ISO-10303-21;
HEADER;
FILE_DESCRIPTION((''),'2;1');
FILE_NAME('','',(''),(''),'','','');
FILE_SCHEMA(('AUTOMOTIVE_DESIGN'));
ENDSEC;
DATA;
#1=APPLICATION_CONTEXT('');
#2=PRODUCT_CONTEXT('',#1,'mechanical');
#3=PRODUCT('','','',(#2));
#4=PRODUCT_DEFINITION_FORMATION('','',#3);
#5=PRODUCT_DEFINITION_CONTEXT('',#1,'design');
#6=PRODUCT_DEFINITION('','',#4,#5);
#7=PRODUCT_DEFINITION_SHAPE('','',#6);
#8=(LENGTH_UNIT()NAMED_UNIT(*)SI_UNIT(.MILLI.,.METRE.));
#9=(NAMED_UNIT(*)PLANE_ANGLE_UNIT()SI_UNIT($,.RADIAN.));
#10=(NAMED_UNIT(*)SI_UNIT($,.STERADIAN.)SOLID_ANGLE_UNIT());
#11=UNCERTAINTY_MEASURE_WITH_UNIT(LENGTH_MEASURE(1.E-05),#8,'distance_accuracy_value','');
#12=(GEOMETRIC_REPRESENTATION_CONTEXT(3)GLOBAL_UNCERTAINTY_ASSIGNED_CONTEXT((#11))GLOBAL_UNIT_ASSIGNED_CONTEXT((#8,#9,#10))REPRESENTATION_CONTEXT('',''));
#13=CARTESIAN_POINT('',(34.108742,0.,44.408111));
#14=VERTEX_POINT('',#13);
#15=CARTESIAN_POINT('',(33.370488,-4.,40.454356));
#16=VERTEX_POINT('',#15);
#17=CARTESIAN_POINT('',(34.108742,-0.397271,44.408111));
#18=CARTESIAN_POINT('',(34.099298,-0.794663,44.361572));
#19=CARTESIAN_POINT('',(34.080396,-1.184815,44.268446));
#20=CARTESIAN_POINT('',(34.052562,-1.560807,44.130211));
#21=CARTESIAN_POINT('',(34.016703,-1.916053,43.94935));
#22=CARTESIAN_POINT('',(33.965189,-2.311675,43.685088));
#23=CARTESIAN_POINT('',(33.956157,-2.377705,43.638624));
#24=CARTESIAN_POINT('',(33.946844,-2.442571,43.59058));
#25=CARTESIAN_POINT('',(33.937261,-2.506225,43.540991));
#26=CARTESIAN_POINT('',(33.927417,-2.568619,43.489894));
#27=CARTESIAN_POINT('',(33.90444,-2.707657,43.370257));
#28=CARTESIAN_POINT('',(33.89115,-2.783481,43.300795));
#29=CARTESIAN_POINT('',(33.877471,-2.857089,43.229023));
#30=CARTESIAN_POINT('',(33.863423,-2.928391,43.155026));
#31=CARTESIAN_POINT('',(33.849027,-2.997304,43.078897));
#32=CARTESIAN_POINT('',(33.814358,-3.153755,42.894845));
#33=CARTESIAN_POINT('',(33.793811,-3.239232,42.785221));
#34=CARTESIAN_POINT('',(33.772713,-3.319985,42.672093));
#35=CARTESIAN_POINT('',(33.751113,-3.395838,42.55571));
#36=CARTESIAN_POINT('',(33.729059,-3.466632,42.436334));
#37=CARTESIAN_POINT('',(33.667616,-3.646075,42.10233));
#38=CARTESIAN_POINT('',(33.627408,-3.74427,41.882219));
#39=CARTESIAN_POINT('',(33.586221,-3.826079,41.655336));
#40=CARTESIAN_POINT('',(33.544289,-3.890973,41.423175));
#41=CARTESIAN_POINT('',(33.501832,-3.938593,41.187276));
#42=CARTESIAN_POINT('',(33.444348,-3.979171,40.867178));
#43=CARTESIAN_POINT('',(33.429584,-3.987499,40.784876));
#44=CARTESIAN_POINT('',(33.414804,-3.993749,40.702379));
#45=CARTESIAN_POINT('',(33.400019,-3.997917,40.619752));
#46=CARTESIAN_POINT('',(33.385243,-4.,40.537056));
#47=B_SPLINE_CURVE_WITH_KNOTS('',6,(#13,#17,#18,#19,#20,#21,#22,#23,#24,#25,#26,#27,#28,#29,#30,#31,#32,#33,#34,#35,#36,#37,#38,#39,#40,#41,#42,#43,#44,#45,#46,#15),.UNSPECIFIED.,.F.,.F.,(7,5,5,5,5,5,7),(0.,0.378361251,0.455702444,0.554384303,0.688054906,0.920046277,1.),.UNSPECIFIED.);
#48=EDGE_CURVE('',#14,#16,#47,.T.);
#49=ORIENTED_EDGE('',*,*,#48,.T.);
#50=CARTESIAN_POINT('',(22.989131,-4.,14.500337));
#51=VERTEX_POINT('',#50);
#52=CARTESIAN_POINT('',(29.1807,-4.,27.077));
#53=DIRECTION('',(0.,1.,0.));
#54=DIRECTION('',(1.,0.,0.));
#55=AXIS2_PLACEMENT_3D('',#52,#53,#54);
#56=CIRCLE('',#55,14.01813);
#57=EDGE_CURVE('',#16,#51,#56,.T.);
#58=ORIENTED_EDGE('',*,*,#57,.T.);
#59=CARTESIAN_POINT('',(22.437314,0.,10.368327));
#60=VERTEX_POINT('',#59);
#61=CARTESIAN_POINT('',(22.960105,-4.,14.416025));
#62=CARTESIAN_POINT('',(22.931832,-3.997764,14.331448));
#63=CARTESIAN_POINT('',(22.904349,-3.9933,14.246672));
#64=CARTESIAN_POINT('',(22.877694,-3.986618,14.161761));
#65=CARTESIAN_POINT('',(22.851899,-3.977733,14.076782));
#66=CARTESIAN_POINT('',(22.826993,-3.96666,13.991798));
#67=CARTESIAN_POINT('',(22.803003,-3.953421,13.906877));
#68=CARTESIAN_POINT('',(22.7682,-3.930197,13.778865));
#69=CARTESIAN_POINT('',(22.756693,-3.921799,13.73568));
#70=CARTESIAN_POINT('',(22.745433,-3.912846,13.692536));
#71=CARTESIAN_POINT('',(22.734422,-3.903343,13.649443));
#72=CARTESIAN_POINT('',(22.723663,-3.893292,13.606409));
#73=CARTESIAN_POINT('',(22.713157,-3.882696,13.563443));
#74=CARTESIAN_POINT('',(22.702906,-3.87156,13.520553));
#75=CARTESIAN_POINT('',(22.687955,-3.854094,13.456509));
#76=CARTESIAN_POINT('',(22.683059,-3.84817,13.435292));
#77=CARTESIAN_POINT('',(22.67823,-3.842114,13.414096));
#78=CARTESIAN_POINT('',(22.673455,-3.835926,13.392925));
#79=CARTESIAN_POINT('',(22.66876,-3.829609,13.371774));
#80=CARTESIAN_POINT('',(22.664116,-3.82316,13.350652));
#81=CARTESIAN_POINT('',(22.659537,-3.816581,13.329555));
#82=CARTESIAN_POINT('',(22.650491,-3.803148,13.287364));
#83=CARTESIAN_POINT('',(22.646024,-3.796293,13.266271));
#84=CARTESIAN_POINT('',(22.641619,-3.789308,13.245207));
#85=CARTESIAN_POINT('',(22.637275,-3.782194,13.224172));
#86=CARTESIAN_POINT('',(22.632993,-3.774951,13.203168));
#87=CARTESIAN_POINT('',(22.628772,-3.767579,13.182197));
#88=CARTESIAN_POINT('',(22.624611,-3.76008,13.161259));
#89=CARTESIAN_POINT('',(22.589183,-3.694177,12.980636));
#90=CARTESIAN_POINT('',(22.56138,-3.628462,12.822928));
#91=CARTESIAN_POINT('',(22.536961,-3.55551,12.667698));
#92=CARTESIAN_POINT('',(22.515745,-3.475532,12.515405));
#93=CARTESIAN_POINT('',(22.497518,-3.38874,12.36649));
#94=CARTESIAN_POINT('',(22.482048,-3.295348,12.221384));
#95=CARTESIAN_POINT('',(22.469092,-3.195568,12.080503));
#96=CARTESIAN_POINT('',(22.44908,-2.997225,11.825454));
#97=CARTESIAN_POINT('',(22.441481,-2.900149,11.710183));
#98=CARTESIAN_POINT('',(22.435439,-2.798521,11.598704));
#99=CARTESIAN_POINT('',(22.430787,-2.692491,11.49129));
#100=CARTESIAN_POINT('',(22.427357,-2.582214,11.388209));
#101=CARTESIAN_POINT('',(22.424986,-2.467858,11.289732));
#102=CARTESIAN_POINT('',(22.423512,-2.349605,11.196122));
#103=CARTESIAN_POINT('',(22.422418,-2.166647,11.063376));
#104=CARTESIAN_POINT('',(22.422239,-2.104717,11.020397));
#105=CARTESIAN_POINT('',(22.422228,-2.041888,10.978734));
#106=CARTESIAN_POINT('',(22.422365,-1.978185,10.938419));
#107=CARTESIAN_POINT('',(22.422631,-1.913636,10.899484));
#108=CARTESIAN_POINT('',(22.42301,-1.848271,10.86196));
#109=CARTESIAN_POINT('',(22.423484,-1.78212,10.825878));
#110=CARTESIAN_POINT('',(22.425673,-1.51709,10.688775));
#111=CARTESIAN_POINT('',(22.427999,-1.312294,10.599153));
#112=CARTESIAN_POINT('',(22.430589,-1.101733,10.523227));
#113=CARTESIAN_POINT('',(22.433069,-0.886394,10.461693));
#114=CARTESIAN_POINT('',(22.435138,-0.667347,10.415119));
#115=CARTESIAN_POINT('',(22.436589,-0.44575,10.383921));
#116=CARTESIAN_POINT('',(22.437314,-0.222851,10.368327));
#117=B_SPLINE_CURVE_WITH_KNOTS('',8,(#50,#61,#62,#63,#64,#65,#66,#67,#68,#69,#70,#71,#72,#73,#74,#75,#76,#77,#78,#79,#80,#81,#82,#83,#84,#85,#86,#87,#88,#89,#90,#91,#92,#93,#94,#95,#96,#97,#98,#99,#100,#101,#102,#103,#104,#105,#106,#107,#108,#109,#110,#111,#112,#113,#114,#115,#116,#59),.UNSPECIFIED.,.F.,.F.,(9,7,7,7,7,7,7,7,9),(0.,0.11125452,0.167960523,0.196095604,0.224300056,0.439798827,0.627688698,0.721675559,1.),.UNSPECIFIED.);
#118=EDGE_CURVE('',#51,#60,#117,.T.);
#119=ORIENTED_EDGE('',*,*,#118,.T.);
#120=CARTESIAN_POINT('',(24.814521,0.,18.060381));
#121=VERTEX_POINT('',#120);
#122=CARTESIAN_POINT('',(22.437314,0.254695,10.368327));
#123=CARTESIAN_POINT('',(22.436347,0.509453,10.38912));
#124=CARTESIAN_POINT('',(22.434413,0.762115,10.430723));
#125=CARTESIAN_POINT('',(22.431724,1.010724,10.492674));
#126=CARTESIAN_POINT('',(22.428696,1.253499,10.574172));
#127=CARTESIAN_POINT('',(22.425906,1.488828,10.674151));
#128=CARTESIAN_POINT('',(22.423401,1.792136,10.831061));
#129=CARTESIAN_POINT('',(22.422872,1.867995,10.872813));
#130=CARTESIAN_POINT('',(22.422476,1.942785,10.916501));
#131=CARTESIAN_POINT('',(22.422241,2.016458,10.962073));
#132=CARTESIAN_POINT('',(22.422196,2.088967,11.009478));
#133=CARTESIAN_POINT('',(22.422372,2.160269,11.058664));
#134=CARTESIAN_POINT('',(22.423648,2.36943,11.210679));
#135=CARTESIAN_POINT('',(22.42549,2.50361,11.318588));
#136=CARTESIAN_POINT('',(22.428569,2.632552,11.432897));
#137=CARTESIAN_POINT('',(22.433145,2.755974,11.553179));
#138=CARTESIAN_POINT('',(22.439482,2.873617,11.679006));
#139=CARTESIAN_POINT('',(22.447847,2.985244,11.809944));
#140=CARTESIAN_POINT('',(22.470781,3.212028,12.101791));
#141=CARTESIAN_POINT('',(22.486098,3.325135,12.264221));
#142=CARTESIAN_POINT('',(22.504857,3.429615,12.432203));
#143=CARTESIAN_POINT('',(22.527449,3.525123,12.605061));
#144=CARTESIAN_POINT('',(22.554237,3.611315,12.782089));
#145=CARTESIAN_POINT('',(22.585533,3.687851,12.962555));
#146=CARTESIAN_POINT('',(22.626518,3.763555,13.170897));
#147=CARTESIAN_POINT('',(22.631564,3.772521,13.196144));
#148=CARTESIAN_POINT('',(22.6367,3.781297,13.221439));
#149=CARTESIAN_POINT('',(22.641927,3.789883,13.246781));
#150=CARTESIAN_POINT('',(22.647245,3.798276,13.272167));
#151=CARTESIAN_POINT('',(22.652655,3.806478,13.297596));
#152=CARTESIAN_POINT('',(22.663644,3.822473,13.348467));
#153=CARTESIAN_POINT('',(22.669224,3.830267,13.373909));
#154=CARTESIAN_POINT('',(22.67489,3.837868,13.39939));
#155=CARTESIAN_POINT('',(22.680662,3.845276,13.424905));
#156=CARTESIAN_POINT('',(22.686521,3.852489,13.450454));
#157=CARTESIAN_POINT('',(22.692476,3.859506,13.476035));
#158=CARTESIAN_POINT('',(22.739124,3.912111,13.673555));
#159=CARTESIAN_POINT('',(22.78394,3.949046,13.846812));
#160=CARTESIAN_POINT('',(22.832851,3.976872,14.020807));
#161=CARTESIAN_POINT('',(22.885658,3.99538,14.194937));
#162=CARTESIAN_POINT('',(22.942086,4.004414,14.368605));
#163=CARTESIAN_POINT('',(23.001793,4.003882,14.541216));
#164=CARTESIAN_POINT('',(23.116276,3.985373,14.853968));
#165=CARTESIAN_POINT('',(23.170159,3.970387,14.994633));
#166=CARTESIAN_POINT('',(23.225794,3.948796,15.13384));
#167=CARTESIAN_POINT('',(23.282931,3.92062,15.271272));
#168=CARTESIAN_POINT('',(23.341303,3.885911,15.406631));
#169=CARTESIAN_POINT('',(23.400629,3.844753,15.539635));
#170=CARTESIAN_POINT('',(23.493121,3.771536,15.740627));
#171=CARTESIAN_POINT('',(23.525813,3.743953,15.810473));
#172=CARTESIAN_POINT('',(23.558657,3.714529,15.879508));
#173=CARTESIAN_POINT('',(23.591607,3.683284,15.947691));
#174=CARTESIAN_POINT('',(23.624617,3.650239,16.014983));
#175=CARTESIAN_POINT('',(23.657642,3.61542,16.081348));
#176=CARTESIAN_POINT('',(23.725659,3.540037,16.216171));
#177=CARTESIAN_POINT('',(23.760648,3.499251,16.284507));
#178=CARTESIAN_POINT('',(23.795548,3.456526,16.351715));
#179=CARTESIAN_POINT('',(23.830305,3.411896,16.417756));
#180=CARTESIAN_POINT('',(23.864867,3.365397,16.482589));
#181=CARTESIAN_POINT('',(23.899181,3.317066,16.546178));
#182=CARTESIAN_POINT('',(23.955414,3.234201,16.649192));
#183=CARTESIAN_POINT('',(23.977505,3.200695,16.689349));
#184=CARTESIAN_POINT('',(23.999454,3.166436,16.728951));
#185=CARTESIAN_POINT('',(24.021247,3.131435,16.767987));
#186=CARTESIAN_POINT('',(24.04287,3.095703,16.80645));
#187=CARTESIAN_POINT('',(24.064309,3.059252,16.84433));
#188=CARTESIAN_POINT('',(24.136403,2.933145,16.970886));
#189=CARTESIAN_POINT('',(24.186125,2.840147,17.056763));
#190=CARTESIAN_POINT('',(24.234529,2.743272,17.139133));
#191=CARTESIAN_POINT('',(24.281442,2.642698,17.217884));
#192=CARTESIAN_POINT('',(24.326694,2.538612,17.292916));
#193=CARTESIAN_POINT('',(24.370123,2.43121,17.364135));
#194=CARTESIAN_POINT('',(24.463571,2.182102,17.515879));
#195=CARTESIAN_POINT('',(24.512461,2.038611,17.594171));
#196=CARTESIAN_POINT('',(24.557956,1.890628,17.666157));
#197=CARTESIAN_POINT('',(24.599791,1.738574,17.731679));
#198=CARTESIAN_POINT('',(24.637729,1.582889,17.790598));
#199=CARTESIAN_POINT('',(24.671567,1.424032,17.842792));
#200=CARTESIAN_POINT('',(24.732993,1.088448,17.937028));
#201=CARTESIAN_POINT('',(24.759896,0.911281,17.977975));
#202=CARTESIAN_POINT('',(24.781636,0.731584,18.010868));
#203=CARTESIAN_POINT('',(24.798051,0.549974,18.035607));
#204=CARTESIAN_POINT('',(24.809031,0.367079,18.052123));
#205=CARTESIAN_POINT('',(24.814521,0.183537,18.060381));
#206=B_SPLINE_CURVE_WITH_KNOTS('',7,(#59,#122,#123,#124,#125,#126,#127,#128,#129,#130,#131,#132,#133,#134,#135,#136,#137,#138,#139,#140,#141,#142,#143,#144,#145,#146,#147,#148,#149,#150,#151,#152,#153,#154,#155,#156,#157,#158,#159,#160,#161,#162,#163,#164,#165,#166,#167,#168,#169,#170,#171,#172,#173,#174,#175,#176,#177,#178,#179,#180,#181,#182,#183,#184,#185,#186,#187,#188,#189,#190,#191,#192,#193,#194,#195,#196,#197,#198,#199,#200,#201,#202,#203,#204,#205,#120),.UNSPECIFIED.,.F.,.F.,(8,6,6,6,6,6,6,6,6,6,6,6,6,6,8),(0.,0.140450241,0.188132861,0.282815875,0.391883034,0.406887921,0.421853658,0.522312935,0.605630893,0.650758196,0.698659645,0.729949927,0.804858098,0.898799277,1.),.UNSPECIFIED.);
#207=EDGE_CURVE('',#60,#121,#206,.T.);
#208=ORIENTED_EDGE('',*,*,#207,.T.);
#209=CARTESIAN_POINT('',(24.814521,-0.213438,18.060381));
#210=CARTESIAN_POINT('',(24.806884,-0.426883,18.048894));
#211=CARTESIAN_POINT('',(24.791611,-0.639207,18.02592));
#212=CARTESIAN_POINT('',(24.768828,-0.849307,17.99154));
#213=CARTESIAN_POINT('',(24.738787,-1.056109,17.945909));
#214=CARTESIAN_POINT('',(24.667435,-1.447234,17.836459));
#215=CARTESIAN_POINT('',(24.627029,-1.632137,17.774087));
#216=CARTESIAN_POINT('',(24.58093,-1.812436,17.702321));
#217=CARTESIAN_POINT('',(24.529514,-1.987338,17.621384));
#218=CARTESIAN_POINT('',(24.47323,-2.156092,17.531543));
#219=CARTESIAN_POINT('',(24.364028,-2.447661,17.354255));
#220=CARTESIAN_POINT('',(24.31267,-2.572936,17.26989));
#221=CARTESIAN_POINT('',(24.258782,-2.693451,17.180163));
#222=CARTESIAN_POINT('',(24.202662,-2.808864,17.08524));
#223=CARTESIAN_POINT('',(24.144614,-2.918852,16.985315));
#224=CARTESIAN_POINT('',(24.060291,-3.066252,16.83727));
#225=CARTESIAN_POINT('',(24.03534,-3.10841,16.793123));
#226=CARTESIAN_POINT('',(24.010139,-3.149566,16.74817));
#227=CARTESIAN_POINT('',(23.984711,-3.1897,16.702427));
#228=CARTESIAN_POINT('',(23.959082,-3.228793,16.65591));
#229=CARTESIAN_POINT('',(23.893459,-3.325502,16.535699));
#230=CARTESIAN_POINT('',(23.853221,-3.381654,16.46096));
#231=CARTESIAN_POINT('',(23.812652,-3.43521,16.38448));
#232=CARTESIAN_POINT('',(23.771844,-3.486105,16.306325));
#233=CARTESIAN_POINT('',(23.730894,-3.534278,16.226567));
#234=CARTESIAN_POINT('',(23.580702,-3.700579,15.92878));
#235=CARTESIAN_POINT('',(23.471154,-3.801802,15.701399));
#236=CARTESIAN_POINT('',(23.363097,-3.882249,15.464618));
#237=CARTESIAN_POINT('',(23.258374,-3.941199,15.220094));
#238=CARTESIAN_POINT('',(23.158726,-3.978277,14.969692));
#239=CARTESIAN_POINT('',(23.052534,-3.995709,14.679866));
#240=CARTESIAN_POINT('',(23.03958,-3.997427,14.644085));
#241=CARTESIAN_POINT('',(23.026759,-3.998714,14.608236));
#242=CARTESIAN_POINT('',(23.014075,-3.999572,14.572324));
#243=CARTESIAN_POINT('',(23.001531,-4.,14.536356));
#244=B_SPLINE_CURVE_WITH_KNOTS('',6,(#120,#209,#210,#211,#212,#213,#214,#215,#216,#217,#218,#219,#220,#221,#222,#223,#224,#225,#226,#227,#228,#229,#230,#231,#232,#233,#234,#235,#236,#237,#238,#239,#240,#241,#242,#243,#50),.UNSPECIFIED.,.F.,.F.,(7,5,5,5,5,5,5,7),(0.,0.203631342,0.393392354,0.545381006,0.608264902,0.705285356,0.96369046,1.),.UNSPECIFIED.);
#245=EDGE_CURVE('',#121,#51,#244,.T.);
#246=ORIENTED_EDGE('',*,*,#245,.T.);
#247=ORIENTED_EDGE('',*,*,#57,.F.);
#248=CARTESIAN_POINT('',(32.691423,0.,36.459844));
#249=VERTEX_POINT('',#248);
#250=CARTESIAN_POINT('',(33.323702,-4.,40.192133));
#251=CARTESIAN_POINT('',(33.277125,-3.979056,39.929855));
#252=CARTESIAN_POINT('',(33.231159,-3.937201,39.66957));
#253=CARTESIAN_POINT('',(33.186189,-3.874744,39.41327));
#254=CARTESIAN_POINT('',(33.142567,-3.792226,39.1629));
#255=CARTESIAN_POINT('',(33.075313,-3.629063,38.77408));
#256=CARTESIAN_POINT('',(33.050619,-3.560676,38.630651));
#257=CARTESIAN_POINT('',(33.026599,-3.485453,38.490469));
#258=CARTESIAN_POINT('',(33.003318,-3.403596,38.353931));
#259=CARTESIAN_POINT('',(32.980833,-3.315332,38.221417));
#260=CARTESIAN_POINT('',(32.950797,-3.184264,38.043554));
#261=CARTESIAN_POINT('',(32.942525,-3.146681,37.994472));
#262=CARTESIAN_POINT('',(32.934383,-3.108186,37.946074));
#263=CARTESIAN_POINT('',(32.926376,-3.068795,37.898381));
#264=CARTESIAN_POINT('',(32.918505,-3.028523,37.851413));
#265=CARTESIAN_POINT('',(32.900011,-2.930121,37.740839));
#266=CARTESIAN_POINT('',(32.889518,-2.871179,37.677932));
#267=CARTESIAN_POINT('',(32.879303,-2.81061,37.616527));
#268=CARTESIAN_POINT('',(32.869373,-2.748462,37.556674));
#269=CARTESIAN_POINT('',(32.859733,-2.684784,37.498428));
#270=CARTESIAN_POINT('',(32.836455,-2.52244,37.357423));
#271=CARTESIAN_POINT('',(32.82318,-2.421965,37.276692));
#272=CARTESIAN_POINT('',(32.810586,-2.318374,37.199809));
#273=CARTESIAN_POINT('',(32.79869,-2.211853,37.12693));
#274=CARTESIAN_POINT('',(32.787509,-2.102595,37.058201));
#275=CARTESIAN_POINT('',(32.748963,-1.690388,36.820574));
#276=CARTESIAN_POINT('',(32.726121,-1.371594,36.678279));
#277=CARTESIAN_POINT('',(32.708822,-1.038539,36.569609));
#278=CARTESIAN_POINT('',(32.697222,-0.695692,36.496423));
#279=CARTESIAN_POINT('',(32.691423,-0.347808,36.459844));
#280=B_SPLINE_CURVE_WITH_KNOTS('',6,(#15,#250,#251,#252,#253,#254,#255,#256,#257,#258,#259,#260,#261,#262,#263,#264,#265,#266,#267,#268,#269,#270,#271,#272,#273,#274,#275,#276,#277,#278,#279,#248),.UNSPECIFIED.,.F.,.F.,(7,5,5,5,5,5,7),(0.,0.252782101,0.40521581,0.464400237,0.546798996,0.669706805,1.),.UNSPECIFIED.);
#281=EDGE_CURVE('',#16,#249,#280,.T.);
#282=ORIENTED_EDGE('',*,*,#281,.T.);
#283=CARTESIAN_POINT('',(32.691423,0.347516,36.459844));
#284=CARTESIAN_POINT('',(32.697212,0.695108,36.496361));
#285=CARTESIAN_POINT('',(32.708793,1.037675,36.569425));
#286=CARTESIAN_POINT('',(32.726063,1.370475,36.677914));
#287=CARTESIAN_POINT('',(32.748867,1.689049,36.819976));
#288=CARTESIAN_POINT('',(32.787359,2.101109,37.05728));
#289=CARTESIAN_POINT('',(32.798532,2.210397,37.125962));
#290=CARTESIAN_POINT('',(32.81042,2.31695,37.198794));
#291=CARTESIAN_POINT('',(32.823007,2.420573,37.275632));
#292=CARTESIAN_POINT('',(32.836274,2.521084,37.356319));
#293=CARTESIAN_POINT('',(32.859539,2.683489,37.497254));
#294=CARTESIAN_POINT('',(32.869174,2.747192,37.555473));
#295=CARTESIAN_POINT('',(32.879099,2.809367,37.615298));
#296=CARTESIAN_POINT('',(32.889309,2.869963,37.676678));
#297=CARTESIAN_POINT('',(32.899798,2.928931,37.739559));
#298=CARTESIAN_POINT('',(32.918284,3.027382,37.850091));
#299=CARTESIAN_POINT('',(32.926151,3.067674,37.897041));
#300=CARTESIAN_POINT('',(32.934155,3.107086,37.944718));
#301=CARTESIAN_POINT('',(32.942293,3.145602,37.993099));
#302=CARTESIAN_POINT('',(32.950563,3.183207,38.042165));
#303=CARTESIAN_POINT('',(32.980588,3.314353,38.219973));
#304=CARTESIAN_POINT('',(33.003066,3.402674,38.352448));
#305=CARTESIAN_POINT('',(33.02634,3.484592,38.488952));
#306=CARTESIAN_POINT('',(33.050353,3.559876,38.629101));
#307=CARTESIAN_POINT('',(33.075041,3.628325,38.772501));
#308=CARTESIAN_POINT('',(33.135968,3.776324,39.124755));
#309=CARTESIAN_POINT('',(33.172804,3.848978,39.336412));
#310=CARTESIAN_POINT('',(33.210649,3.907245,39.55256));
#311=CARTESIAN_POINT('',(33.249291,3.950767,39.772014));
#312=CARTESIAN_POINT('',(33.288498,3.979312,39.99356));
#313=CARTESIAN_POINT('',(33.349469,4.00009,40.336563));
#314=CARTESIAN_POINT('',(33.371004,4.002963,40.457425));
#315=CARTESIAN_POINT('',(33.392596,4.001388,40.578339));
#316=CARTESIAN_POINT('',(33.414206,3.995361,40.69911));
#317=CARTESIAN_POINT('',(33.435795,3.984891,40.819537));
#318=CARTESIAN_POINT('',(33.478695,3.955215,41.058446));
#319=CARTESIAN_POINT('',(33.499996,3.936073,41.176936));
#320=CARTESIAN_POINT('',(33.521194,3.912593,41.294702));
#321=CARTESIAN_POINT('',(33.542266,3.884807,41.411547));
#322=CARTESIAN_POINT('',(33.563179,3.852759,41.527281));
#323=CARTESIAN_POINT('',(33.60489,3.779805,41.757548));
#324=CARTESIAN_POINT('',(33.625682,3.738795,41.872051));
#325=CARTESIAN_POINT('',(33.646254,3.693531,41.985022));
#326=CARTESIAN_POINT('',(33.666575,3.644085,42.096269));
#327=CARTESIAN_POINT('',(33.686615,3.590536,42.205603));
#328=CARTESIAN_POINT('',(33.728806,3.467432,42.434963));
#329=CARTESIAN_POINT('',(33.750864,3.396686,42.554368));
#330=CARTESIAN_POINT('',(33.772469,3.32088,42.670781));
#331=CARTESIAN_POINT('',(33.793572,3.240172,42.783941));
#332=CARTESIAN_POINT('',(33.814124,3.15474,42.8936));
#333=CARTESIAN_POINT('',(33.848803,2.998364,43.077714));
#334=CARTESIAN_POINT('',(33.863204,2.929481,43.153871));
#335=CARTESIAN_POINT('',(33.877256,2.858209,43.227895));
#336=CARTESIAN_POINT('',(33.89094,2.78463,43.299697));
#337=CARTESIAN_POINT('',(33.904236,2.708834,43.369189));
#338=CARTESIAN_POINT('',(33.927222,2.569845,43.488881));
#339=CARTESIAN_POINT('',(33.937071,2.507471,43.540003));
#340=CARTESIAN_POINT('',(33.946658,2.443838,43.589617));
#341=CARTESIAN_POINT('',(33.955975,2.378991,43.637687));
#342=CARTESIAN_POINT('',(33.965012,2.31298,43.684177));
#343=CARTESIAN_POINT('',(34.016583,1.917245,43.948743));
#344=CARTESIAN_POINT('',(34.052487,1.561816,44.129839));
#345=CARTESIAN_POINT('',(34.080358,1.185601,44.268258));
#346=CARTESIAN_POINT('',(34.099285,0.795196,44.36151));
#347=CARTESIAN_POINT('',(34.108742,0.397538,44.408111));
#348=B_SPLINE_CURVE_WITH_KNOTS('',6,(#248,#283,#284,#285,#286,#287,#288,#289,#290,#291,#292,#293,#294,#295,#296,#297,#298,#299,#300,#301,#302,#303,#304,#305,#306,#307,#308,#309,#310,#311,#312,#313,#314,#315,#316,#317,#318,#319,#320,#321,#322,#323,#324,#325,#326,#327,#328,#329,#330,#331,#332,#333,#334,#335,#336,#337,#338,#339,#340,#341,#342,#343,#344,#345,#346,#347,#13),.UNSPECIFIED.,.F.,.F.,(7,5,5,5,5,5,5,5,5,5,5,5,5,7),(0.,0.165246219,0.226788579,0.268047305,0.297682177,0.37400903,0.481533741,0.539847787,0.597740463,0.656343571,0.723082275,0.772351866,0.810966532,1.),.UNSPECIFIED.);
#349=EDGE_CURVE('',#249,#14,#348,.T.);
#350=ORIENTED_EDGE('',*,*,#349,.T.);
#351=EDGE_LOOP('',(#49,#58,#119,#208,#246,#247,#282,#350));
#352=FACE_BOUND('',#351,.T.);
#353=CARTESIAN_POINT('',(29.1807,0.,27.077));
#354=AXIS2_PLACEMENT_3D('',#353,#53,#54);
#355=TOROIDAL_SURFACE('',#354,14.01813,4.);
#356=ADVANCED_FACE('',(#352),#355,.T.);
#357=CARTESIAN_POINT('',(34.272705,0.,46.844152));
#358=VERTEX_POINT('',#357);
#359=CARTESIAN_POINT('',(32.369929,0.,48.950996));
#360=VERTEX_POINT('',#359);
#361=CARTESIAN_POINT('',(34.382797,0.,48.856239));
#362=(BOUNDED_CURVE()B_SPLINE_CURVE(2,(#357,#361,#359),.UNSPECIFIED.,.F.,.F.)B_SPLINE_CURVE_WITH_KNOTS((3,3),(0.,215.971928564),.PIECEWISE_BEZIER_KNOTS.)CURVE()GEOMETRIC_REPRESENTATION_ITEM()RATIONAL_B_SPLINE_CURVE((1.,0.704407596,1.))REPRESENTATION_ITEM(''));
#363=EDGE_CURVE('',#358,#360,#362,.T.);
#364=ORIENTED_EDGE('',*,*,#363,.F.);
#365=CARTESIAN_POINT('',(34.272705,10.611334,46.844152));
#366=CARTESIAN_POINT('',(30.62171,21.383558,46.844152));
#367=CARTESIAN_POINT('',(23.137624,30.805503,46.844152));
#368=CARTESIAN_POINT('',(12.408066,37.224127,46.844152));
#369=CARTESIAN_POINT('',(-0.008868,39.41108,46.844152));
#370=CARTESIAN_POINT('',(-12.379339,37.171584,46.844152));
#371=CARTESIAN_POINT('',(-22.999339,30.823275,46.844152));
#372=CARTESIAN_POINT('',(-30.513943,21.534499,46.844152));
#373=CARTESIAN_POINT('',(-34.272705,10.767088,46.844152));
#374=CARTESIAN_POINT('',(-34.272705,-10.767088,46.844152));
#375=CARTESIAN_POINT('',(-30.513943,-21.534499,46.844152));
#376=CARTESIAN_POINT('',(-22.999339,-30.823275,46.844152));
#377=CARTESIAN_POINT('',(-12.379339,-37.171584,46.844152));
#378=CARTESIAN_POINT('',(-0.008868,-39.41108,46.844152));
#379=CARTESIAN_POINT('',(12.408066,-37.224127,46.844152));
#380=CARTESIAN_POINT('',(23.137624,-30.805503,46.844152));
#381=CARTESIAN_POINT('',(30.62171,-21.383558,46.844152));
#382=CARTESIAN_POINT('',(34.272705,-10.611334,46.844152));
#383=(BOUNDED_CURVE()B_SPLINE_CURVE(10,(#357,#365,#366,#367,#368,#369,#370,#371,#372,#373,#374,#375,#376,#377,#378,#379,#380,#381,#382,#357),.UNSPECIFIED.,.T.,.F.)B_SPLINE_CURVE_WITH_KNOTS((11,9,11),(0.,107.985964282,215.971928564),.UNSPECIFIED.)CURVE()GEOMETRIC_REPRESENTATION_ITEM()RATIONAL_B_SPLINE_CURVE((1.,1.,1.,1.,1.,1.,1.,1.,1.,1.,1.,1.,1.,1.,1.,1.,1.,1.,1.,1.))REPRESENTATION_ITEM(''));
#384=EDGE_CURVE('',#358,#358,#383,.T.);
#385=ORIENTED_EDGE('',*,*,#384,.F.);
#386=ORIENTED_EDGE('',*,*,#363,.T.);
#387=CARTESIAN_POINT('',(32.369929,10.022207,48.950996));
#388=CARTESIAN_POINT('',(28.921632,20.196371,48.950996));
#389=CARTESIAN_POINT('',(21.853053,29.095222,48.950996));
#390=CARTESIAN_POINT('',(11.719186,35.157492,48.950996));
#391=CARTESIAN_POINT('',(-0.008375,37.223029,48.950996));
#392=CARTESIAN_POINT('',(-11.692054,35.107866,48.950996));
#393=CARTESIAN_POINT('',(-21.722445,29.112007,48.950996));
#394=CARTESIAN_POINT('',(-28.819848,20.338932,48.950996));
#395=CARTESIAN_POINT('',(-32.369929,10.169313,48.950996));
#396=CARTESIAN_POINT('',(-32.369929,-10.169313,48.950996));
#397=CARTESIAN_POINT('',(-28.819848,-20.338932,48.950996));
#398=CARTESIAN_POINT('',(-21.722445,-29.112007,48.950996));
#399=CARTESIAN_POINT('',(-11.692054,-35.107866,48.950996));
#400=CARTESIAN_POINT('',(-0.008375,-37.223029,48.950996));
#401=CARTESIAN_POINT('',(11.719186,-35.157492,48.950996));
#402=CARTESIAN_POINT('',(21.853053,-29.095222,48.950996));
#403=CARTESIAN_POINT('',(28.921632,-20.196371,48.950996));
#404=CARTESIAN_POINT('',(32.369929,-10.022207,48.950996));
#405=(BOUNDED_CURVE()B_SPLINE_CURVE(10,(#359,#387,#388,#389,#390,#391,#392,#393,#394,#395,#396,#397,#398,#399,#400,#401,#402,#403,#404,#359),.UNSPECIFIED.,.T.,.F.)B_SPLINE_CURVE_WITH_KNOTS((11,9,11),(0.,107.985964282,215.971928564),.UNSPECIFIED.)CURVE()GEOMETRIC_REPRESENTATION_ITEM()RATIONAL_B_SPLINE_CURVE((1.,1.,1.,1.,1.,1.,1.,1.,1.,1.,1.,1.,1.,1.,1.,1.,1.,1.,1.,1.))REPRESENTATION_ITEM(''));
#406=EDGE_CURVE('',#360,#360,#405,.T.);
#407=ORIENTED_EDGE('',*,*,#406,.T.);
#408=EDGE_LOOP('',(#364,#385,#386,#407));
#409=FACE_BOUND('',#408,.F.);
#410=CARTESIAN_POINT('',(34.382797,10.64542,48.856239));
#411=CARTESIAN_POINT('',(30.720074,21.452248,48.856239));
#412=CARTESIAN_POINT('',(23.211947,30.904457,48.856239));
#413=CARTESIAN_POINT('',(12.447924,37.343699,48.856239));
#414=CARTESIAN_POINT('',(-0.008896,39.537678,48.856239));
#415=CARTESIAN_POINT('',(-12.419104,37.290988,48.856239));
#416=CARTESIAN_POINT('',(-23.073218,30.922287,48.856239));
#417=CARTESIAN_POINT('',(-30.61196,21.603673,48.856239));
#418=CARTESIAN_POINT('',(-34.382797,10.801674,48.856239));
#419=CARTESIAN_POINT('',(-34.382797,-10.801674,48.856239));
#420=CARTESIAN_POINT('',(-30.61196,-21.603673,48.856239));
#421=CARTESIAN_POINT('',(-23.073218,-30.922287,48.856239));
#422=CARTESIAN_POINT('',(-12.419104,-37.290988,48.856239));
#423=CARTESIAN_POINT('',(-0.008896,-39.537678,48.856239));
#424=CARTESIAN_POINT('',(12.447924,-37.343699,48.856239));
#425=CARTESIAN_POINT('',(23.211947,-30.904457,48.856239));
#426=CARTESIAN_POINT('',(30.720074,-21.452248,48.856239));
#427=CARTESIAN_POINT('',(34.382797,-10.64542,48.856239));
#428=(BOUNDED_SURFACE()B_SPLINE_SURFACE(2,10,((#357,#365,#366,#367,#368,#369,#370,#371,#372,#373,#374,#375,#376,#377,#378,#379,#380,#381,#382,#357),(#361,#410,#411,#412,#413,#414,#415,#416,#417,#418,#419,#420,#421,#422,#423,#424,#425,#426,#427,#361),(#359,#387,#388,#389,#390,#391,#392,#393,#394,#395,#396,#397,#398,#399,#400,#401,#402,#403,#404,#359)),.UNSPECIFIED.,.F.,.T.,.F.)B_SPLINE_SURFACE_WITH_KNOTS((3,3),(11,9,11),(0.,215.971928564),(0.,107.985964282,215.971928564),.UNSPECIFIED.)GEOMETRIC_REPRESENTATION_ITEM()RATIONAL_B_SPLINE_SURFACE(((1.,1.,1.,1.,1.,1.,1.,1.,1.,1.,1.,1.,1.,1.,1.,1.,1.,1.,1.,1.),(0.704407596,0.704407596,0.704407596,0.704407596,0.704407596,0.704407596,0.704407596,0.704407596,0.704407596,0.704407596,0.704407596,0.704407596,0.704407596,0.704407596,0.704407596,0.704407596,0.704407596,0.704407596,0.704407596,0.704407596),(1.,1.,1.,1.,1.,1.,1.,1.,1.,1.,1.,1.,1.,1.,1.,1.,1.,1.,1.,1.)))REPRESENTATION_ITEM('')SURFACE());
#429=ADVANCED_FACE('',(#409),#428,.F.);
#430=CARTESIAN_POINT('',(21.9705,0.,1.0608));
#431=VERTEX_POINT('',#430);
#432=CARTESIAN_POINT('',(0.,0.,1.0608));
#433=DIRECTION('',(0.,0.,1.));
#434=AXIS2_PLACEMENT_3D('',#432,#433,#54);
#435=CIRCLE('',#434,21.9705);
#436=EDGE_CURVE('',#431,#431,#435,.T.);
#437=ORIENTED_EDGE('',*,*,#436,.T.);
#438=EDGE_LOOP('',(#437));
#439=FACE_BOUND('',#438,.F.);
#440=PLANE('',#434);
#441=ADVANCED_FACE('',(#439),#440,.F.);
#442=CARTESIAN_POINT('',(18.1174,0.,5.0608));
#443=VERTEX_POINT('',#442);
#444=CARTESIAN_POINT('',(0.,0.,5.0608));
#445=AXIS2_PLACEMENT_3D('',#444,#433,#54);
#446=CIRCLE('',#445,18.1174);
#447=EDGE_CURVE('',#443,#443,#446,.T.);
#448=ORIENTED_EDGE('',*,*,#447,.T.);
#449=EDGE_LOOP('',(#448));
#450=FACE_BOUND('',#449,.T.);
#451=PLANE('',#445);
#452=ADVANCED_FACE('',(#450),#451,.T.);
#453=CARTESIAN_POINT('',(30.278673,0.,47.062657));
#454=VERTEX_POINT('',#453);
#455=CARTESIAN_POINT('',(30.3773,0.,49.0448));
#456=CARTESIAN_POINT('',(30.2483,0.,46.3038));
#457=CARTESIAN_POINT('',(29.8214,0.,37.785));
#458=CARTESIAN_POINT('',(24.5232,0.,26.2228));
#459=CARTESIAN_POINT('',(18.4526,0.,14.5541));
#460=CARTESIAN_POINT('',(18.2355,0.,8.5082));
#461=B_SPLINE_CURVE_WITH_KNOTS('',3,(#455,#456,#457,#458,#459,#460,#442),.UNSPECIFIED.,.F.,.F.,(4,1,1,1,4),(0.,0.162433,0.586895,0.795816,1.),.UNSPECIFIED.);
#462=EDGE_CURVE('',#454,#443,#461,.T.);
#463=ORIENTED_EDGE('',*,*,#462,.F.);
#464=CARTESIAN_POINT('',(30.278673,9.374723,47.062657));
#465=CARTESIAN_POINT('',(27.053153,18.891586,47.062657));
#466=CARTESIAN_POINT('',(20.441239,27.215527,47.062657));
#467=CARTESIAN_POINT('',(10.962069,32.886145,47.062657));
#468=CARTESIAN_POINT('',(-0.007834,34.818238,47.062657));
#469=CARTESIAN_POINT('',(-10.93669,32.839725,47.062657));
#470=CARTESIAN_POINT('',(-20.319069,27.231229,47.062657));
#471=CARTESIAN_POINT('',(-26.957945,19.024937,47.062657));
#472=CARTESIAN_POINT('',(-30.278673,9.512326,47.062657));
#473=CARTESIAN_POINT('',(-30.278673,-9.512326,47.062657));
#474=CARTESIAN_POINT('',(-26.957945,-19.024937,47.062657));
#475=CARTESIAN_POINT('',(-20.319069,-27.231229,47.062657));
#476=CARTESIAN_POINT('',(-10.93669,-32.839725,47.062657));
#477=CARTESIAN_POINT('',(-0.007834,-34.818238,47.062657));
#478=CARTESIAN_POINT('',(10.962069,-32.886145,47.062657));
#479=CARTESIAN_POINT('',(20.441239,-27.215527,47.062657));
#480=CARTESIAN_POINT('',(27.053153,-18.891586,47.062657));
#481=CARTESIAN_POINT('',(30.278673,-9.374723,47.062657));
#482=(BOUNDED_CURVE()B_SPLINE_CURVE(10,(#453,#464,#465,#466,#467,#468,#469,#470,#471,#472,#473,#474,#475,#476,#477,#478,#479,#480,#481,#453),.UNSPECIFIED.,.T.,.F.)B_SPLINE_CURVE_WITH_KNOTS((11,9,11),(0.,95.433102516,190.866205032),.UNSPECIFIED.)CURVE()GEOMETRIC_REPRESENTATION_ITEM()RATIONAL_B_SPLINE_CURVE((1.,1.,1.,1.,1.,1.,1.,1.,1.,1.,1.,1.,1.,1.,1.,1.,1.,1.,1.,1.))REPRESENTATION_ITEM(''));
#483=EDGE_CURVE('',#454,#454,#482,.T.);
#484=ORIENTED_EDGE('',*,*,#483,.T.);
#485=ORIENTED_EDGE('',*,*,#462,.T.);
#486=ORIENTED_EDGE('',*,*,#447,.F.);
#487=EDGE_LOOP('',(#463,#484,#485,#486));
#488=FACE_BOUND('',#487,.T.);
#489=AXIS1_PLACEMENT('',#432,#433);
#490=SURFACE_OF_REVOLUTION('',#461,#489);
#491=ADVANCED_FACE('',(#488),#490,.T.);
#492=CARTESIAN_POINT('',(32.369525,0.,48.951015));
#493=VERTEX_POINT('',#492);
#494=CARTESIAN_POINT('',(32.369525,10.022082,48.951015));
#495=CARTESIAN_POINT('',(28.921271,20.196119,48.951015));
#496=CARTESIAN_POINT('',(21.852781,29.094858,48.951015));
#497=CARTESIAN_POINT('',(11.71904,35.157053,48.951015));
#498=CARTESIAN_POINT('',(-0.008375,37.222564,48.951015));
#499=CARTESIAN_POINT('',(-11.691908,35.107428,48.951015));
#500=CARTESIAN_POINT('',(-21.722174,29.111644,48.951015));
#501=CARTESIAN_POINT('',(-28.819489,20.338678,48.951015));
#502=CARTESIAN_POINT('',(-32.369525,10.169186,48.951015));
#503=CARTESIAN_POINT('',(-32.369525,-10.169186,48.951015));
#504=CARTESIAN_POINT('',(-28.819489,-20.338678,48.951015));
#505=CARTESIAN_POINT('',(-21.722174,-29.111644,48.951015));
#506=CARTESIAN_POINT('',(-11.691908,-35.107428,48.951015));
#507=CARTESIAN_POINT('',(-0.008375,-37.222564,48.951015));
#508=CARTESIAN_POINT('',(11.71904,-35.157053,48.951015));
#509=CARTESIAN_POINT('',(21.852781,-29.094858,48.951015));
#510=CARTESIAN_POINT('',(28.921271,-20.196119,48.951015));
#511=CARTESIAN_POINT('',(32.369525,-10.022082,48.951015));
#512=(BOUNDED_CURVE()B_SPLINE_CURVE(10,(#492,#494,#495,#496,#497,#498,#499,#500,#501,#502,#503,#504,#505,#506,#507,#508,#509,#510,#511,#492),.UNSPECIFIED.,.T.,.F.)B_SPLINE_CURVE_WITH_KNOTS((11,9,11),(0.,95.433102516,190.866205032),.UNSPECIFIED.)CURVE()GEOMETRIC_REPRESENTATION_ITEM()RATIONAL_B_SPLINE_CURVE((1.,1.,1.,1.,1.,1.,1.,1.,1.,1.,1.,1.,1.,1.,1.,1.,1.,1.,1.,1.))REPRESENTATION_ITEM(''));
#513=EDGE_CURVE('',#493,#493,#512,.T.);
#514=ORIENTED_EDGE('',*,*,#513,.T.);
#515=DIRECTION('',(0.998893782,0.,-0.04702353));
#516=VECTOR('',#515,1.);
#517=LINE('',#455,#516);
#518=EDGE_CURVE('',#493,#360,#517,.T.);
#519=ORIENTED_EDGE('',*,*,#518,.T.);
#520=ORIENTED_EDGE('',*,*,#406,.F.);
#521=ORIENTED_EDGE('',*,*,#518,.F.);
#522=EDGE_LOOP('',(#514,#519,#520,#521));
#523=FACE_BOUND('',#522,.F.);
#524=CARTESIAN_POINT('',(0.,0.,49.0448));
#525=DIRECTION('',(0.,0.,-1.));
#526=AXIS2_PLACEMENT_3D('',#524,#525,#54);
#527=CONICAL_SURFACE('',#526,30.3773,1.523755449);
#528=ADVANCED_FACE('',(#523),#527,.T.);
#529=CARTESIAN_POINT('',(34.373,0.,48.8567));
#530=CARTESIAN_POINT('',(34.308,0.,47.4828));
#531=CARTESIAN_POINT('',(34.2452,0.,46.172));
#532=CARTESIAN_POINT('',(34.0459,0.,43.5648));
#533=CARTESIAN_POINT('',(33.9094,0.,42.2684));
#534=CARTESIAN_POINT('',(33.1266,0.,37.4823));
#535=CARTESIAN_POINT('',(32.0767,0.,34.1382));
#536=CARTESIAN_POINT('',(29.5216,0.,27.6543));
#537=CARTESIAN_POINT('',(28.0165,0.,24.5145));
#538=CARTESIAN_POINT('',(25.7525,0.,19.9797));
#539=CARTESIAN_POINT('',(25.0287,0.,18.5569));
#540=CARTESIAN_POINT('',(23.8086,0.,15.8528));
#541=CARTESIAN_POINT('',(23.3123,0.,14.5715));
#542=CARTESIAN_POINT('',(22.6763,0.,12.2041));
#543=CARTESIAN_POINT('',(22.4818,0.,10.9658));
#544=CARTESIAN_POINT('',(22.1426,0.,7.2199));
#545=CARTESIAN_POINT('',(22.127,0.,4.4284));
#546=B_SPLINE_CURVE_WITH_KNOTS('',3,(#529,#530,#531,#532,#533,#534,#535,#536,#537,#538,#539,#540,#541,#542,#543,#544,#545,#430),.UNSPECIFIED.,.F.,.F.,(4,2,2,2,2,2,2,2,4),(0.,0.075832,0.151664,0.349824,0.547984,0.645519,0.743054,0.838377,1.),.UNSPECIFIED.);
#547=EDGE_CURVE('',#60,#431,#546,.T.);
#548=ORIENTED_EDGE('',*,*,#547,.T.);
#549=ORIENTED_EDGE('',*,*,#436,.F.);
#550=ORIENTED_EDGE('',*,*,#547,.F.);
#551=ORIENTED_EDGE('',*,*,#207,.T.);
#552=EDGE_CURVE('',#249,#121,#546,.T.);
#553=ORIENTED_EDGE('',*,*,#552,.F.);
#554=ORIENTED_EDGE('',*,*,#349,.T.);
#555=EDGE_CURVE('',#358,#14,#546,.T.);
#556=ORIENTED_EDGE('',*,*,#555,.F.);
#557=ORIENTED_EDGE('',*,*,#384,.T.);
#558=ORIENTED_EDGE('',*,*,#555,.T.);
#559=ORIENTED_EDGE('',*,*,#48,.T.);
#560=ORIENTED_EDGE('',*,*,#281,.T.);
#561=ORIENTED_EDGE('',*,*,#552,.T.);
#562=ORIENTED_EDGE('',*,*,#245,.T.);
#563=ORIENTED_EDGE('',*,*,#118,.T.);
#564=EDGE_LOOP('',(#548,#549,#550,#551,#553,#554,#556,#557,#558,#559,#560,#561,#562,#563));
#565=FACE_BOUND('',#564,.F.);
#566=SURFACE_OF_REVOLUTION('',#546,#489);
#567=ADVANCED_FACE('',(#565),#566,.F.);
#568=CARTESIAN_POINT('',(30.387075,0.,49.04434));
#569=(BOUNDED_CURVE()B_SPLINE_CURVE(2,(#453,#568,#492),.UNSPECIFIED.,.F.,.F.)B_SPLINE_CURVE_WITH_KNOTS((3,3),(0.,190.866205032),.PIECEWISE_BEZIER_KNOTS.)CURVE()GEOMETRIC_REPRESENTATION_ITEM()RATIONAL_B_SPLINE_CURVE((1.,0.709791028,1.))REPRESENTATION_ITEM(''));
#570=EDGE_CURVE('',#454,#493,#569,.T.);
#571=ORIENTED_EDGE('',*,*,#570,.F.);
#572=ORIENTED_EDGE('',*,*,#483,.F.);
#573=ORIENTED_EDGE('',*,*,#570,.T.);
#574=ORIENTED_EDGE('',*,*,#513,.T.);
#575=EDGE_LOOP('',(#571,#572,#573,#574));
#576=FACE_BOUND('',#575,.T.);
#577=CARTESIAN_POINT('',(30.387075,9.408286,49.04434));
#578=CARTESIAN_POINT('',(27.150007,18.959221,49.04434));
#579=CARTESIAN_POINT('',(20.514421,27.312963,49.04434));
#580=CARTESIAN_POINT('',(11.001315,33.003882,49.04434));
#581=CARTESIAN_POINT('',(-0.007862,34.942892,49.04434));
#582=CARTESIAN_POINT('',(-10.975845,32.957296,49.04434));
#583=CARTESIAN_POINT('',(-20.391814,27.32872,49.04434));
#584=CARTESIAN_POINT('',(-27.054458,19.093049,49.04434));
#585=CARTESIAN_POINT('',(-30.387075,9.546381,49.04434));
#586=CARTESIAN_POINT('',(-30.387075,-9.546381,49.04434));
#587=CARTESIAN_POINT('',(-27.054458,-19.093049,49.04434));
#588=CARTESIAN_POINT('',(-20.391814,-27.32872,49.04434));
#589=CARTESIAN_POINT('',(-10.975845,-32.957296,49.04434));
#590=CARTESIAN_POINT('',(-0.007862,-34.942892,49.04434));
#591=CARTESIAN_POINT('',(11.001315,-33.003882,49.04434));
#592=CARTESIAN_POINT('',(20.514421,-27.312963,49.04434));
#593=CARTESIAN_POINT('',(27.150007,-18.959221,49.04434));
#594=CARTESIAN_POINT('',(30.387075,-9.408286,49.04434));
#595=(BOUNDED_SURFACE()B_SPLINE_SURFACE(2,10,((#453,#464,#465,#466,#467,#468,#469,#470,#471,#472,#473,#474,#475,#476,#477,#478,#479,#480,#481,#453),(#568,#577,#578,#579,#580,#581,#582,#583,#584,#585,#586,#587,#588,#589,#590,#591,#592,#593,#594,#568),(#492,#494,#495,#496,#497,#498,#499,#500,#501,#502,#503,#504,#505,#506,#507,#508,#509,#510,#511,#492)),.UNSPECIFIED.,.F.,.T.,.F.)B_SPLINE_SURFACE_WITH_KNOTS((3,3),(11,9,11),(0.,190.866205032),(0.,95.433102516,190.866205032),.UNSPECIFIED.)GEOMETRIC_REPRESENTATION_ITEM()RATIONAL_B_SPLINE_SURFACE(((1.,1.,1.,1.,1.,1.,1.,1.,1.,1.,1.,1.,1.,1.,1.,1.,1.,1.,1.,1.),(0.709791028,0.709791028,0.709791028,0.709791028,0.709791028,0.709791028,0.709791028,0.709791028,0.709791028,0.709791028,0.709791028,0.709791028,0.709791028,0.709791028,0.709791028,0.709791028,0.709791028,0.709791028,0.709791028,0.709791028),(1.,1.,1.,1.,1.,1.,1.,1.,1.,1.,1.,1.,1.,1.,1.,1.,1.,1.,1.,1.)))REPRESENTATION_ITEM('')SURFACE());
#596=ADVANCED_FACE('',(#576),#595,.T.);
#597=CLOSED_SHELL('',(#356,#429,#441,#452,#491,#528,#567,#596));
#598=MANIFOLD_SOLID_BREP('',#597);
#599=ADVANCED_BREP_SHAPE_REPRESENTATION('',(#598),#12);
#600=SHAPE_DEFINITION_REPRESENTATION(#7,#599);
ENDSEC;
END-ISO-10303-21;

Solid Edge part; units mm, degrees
sketch "Sketch1" plane through (0, 0, 0) normal (0, -1, 0) x (1, 0, 0)
  spline S0 degree 3 poles (34.373, 48.8567) (34.308, 47.4828) (34.2452, 46.172) (34.0459, 43.5648) (33.9094, 42.2684) (33.1266, 37.4823) (32.0767, 34.1382) (29.5216, 27.6543) (28.0165, 24.5145) (25.7525, 19.9797) (25.0287, 18.5569) (23.8086, 15.8528) (23.3123, 14.5715) (22.6763, 12.2041) (22.4818, 10.9658) (22.1426, 7.2199) (22.127, 4.4284) (21.9705, 1.0608) knots 0 0 0 0 0.075832 0.075832 0.151664 0.151664 0.349824 0.349824 0.547984 0.547984 0.645519 0.645519 0.743054 0.743054 0.838377 0.838377 1 1 1 1
  line L0 (21.9705, 1.0608) -> (0, 1.0608)
  line L1 (0, 1.0608) -> (0, 5.0608)
  line L2 (18.1174, 5.0608) -> (0, 5.0608)
  spline S1 degree 3 poles (30.3773, 49.0448) (30.2483, 46.3038) (29.8214, 37.785) (24.5232, 26.2228) (18.4526, 14.5541) (18.2355, 8.5082) (18.1174, 5.0608) knots 0 0 0 0 0.162433 0.586895 0.795816 1 1 1 1
  line L3 (30.3773, 49.0448) -> (34.373, 48.8567)
revolve "RevolvedProtrusion1" add sketch "Sketch1" angle 360 about axis through (0, 0, 1.0608) along (0, 0, 1)
fillet "Round1" radius 2 2 edges at (-34.373, 0, 48.8567) (-30.3773, 0, 49.0448)
sketch "Sketch2" plane through (0, 0, 0) normal (0, -1, 0) x (1, 0, 0)
  arc A0 (30.3773, 41.0438) -> (21.9705, 15.0554) centre (29.1807, 27.077) cw
sketch "Sketch3" plane through (33.2571, 0, 40.4791) normal (-0.9567, 0, 0.291) x (0, -1, 0)
  circle A0 centre (0, 0.0098) radius 4
sweep "SweptProtrusion_2" add profiles "Sketch3" path "Sketch2"
